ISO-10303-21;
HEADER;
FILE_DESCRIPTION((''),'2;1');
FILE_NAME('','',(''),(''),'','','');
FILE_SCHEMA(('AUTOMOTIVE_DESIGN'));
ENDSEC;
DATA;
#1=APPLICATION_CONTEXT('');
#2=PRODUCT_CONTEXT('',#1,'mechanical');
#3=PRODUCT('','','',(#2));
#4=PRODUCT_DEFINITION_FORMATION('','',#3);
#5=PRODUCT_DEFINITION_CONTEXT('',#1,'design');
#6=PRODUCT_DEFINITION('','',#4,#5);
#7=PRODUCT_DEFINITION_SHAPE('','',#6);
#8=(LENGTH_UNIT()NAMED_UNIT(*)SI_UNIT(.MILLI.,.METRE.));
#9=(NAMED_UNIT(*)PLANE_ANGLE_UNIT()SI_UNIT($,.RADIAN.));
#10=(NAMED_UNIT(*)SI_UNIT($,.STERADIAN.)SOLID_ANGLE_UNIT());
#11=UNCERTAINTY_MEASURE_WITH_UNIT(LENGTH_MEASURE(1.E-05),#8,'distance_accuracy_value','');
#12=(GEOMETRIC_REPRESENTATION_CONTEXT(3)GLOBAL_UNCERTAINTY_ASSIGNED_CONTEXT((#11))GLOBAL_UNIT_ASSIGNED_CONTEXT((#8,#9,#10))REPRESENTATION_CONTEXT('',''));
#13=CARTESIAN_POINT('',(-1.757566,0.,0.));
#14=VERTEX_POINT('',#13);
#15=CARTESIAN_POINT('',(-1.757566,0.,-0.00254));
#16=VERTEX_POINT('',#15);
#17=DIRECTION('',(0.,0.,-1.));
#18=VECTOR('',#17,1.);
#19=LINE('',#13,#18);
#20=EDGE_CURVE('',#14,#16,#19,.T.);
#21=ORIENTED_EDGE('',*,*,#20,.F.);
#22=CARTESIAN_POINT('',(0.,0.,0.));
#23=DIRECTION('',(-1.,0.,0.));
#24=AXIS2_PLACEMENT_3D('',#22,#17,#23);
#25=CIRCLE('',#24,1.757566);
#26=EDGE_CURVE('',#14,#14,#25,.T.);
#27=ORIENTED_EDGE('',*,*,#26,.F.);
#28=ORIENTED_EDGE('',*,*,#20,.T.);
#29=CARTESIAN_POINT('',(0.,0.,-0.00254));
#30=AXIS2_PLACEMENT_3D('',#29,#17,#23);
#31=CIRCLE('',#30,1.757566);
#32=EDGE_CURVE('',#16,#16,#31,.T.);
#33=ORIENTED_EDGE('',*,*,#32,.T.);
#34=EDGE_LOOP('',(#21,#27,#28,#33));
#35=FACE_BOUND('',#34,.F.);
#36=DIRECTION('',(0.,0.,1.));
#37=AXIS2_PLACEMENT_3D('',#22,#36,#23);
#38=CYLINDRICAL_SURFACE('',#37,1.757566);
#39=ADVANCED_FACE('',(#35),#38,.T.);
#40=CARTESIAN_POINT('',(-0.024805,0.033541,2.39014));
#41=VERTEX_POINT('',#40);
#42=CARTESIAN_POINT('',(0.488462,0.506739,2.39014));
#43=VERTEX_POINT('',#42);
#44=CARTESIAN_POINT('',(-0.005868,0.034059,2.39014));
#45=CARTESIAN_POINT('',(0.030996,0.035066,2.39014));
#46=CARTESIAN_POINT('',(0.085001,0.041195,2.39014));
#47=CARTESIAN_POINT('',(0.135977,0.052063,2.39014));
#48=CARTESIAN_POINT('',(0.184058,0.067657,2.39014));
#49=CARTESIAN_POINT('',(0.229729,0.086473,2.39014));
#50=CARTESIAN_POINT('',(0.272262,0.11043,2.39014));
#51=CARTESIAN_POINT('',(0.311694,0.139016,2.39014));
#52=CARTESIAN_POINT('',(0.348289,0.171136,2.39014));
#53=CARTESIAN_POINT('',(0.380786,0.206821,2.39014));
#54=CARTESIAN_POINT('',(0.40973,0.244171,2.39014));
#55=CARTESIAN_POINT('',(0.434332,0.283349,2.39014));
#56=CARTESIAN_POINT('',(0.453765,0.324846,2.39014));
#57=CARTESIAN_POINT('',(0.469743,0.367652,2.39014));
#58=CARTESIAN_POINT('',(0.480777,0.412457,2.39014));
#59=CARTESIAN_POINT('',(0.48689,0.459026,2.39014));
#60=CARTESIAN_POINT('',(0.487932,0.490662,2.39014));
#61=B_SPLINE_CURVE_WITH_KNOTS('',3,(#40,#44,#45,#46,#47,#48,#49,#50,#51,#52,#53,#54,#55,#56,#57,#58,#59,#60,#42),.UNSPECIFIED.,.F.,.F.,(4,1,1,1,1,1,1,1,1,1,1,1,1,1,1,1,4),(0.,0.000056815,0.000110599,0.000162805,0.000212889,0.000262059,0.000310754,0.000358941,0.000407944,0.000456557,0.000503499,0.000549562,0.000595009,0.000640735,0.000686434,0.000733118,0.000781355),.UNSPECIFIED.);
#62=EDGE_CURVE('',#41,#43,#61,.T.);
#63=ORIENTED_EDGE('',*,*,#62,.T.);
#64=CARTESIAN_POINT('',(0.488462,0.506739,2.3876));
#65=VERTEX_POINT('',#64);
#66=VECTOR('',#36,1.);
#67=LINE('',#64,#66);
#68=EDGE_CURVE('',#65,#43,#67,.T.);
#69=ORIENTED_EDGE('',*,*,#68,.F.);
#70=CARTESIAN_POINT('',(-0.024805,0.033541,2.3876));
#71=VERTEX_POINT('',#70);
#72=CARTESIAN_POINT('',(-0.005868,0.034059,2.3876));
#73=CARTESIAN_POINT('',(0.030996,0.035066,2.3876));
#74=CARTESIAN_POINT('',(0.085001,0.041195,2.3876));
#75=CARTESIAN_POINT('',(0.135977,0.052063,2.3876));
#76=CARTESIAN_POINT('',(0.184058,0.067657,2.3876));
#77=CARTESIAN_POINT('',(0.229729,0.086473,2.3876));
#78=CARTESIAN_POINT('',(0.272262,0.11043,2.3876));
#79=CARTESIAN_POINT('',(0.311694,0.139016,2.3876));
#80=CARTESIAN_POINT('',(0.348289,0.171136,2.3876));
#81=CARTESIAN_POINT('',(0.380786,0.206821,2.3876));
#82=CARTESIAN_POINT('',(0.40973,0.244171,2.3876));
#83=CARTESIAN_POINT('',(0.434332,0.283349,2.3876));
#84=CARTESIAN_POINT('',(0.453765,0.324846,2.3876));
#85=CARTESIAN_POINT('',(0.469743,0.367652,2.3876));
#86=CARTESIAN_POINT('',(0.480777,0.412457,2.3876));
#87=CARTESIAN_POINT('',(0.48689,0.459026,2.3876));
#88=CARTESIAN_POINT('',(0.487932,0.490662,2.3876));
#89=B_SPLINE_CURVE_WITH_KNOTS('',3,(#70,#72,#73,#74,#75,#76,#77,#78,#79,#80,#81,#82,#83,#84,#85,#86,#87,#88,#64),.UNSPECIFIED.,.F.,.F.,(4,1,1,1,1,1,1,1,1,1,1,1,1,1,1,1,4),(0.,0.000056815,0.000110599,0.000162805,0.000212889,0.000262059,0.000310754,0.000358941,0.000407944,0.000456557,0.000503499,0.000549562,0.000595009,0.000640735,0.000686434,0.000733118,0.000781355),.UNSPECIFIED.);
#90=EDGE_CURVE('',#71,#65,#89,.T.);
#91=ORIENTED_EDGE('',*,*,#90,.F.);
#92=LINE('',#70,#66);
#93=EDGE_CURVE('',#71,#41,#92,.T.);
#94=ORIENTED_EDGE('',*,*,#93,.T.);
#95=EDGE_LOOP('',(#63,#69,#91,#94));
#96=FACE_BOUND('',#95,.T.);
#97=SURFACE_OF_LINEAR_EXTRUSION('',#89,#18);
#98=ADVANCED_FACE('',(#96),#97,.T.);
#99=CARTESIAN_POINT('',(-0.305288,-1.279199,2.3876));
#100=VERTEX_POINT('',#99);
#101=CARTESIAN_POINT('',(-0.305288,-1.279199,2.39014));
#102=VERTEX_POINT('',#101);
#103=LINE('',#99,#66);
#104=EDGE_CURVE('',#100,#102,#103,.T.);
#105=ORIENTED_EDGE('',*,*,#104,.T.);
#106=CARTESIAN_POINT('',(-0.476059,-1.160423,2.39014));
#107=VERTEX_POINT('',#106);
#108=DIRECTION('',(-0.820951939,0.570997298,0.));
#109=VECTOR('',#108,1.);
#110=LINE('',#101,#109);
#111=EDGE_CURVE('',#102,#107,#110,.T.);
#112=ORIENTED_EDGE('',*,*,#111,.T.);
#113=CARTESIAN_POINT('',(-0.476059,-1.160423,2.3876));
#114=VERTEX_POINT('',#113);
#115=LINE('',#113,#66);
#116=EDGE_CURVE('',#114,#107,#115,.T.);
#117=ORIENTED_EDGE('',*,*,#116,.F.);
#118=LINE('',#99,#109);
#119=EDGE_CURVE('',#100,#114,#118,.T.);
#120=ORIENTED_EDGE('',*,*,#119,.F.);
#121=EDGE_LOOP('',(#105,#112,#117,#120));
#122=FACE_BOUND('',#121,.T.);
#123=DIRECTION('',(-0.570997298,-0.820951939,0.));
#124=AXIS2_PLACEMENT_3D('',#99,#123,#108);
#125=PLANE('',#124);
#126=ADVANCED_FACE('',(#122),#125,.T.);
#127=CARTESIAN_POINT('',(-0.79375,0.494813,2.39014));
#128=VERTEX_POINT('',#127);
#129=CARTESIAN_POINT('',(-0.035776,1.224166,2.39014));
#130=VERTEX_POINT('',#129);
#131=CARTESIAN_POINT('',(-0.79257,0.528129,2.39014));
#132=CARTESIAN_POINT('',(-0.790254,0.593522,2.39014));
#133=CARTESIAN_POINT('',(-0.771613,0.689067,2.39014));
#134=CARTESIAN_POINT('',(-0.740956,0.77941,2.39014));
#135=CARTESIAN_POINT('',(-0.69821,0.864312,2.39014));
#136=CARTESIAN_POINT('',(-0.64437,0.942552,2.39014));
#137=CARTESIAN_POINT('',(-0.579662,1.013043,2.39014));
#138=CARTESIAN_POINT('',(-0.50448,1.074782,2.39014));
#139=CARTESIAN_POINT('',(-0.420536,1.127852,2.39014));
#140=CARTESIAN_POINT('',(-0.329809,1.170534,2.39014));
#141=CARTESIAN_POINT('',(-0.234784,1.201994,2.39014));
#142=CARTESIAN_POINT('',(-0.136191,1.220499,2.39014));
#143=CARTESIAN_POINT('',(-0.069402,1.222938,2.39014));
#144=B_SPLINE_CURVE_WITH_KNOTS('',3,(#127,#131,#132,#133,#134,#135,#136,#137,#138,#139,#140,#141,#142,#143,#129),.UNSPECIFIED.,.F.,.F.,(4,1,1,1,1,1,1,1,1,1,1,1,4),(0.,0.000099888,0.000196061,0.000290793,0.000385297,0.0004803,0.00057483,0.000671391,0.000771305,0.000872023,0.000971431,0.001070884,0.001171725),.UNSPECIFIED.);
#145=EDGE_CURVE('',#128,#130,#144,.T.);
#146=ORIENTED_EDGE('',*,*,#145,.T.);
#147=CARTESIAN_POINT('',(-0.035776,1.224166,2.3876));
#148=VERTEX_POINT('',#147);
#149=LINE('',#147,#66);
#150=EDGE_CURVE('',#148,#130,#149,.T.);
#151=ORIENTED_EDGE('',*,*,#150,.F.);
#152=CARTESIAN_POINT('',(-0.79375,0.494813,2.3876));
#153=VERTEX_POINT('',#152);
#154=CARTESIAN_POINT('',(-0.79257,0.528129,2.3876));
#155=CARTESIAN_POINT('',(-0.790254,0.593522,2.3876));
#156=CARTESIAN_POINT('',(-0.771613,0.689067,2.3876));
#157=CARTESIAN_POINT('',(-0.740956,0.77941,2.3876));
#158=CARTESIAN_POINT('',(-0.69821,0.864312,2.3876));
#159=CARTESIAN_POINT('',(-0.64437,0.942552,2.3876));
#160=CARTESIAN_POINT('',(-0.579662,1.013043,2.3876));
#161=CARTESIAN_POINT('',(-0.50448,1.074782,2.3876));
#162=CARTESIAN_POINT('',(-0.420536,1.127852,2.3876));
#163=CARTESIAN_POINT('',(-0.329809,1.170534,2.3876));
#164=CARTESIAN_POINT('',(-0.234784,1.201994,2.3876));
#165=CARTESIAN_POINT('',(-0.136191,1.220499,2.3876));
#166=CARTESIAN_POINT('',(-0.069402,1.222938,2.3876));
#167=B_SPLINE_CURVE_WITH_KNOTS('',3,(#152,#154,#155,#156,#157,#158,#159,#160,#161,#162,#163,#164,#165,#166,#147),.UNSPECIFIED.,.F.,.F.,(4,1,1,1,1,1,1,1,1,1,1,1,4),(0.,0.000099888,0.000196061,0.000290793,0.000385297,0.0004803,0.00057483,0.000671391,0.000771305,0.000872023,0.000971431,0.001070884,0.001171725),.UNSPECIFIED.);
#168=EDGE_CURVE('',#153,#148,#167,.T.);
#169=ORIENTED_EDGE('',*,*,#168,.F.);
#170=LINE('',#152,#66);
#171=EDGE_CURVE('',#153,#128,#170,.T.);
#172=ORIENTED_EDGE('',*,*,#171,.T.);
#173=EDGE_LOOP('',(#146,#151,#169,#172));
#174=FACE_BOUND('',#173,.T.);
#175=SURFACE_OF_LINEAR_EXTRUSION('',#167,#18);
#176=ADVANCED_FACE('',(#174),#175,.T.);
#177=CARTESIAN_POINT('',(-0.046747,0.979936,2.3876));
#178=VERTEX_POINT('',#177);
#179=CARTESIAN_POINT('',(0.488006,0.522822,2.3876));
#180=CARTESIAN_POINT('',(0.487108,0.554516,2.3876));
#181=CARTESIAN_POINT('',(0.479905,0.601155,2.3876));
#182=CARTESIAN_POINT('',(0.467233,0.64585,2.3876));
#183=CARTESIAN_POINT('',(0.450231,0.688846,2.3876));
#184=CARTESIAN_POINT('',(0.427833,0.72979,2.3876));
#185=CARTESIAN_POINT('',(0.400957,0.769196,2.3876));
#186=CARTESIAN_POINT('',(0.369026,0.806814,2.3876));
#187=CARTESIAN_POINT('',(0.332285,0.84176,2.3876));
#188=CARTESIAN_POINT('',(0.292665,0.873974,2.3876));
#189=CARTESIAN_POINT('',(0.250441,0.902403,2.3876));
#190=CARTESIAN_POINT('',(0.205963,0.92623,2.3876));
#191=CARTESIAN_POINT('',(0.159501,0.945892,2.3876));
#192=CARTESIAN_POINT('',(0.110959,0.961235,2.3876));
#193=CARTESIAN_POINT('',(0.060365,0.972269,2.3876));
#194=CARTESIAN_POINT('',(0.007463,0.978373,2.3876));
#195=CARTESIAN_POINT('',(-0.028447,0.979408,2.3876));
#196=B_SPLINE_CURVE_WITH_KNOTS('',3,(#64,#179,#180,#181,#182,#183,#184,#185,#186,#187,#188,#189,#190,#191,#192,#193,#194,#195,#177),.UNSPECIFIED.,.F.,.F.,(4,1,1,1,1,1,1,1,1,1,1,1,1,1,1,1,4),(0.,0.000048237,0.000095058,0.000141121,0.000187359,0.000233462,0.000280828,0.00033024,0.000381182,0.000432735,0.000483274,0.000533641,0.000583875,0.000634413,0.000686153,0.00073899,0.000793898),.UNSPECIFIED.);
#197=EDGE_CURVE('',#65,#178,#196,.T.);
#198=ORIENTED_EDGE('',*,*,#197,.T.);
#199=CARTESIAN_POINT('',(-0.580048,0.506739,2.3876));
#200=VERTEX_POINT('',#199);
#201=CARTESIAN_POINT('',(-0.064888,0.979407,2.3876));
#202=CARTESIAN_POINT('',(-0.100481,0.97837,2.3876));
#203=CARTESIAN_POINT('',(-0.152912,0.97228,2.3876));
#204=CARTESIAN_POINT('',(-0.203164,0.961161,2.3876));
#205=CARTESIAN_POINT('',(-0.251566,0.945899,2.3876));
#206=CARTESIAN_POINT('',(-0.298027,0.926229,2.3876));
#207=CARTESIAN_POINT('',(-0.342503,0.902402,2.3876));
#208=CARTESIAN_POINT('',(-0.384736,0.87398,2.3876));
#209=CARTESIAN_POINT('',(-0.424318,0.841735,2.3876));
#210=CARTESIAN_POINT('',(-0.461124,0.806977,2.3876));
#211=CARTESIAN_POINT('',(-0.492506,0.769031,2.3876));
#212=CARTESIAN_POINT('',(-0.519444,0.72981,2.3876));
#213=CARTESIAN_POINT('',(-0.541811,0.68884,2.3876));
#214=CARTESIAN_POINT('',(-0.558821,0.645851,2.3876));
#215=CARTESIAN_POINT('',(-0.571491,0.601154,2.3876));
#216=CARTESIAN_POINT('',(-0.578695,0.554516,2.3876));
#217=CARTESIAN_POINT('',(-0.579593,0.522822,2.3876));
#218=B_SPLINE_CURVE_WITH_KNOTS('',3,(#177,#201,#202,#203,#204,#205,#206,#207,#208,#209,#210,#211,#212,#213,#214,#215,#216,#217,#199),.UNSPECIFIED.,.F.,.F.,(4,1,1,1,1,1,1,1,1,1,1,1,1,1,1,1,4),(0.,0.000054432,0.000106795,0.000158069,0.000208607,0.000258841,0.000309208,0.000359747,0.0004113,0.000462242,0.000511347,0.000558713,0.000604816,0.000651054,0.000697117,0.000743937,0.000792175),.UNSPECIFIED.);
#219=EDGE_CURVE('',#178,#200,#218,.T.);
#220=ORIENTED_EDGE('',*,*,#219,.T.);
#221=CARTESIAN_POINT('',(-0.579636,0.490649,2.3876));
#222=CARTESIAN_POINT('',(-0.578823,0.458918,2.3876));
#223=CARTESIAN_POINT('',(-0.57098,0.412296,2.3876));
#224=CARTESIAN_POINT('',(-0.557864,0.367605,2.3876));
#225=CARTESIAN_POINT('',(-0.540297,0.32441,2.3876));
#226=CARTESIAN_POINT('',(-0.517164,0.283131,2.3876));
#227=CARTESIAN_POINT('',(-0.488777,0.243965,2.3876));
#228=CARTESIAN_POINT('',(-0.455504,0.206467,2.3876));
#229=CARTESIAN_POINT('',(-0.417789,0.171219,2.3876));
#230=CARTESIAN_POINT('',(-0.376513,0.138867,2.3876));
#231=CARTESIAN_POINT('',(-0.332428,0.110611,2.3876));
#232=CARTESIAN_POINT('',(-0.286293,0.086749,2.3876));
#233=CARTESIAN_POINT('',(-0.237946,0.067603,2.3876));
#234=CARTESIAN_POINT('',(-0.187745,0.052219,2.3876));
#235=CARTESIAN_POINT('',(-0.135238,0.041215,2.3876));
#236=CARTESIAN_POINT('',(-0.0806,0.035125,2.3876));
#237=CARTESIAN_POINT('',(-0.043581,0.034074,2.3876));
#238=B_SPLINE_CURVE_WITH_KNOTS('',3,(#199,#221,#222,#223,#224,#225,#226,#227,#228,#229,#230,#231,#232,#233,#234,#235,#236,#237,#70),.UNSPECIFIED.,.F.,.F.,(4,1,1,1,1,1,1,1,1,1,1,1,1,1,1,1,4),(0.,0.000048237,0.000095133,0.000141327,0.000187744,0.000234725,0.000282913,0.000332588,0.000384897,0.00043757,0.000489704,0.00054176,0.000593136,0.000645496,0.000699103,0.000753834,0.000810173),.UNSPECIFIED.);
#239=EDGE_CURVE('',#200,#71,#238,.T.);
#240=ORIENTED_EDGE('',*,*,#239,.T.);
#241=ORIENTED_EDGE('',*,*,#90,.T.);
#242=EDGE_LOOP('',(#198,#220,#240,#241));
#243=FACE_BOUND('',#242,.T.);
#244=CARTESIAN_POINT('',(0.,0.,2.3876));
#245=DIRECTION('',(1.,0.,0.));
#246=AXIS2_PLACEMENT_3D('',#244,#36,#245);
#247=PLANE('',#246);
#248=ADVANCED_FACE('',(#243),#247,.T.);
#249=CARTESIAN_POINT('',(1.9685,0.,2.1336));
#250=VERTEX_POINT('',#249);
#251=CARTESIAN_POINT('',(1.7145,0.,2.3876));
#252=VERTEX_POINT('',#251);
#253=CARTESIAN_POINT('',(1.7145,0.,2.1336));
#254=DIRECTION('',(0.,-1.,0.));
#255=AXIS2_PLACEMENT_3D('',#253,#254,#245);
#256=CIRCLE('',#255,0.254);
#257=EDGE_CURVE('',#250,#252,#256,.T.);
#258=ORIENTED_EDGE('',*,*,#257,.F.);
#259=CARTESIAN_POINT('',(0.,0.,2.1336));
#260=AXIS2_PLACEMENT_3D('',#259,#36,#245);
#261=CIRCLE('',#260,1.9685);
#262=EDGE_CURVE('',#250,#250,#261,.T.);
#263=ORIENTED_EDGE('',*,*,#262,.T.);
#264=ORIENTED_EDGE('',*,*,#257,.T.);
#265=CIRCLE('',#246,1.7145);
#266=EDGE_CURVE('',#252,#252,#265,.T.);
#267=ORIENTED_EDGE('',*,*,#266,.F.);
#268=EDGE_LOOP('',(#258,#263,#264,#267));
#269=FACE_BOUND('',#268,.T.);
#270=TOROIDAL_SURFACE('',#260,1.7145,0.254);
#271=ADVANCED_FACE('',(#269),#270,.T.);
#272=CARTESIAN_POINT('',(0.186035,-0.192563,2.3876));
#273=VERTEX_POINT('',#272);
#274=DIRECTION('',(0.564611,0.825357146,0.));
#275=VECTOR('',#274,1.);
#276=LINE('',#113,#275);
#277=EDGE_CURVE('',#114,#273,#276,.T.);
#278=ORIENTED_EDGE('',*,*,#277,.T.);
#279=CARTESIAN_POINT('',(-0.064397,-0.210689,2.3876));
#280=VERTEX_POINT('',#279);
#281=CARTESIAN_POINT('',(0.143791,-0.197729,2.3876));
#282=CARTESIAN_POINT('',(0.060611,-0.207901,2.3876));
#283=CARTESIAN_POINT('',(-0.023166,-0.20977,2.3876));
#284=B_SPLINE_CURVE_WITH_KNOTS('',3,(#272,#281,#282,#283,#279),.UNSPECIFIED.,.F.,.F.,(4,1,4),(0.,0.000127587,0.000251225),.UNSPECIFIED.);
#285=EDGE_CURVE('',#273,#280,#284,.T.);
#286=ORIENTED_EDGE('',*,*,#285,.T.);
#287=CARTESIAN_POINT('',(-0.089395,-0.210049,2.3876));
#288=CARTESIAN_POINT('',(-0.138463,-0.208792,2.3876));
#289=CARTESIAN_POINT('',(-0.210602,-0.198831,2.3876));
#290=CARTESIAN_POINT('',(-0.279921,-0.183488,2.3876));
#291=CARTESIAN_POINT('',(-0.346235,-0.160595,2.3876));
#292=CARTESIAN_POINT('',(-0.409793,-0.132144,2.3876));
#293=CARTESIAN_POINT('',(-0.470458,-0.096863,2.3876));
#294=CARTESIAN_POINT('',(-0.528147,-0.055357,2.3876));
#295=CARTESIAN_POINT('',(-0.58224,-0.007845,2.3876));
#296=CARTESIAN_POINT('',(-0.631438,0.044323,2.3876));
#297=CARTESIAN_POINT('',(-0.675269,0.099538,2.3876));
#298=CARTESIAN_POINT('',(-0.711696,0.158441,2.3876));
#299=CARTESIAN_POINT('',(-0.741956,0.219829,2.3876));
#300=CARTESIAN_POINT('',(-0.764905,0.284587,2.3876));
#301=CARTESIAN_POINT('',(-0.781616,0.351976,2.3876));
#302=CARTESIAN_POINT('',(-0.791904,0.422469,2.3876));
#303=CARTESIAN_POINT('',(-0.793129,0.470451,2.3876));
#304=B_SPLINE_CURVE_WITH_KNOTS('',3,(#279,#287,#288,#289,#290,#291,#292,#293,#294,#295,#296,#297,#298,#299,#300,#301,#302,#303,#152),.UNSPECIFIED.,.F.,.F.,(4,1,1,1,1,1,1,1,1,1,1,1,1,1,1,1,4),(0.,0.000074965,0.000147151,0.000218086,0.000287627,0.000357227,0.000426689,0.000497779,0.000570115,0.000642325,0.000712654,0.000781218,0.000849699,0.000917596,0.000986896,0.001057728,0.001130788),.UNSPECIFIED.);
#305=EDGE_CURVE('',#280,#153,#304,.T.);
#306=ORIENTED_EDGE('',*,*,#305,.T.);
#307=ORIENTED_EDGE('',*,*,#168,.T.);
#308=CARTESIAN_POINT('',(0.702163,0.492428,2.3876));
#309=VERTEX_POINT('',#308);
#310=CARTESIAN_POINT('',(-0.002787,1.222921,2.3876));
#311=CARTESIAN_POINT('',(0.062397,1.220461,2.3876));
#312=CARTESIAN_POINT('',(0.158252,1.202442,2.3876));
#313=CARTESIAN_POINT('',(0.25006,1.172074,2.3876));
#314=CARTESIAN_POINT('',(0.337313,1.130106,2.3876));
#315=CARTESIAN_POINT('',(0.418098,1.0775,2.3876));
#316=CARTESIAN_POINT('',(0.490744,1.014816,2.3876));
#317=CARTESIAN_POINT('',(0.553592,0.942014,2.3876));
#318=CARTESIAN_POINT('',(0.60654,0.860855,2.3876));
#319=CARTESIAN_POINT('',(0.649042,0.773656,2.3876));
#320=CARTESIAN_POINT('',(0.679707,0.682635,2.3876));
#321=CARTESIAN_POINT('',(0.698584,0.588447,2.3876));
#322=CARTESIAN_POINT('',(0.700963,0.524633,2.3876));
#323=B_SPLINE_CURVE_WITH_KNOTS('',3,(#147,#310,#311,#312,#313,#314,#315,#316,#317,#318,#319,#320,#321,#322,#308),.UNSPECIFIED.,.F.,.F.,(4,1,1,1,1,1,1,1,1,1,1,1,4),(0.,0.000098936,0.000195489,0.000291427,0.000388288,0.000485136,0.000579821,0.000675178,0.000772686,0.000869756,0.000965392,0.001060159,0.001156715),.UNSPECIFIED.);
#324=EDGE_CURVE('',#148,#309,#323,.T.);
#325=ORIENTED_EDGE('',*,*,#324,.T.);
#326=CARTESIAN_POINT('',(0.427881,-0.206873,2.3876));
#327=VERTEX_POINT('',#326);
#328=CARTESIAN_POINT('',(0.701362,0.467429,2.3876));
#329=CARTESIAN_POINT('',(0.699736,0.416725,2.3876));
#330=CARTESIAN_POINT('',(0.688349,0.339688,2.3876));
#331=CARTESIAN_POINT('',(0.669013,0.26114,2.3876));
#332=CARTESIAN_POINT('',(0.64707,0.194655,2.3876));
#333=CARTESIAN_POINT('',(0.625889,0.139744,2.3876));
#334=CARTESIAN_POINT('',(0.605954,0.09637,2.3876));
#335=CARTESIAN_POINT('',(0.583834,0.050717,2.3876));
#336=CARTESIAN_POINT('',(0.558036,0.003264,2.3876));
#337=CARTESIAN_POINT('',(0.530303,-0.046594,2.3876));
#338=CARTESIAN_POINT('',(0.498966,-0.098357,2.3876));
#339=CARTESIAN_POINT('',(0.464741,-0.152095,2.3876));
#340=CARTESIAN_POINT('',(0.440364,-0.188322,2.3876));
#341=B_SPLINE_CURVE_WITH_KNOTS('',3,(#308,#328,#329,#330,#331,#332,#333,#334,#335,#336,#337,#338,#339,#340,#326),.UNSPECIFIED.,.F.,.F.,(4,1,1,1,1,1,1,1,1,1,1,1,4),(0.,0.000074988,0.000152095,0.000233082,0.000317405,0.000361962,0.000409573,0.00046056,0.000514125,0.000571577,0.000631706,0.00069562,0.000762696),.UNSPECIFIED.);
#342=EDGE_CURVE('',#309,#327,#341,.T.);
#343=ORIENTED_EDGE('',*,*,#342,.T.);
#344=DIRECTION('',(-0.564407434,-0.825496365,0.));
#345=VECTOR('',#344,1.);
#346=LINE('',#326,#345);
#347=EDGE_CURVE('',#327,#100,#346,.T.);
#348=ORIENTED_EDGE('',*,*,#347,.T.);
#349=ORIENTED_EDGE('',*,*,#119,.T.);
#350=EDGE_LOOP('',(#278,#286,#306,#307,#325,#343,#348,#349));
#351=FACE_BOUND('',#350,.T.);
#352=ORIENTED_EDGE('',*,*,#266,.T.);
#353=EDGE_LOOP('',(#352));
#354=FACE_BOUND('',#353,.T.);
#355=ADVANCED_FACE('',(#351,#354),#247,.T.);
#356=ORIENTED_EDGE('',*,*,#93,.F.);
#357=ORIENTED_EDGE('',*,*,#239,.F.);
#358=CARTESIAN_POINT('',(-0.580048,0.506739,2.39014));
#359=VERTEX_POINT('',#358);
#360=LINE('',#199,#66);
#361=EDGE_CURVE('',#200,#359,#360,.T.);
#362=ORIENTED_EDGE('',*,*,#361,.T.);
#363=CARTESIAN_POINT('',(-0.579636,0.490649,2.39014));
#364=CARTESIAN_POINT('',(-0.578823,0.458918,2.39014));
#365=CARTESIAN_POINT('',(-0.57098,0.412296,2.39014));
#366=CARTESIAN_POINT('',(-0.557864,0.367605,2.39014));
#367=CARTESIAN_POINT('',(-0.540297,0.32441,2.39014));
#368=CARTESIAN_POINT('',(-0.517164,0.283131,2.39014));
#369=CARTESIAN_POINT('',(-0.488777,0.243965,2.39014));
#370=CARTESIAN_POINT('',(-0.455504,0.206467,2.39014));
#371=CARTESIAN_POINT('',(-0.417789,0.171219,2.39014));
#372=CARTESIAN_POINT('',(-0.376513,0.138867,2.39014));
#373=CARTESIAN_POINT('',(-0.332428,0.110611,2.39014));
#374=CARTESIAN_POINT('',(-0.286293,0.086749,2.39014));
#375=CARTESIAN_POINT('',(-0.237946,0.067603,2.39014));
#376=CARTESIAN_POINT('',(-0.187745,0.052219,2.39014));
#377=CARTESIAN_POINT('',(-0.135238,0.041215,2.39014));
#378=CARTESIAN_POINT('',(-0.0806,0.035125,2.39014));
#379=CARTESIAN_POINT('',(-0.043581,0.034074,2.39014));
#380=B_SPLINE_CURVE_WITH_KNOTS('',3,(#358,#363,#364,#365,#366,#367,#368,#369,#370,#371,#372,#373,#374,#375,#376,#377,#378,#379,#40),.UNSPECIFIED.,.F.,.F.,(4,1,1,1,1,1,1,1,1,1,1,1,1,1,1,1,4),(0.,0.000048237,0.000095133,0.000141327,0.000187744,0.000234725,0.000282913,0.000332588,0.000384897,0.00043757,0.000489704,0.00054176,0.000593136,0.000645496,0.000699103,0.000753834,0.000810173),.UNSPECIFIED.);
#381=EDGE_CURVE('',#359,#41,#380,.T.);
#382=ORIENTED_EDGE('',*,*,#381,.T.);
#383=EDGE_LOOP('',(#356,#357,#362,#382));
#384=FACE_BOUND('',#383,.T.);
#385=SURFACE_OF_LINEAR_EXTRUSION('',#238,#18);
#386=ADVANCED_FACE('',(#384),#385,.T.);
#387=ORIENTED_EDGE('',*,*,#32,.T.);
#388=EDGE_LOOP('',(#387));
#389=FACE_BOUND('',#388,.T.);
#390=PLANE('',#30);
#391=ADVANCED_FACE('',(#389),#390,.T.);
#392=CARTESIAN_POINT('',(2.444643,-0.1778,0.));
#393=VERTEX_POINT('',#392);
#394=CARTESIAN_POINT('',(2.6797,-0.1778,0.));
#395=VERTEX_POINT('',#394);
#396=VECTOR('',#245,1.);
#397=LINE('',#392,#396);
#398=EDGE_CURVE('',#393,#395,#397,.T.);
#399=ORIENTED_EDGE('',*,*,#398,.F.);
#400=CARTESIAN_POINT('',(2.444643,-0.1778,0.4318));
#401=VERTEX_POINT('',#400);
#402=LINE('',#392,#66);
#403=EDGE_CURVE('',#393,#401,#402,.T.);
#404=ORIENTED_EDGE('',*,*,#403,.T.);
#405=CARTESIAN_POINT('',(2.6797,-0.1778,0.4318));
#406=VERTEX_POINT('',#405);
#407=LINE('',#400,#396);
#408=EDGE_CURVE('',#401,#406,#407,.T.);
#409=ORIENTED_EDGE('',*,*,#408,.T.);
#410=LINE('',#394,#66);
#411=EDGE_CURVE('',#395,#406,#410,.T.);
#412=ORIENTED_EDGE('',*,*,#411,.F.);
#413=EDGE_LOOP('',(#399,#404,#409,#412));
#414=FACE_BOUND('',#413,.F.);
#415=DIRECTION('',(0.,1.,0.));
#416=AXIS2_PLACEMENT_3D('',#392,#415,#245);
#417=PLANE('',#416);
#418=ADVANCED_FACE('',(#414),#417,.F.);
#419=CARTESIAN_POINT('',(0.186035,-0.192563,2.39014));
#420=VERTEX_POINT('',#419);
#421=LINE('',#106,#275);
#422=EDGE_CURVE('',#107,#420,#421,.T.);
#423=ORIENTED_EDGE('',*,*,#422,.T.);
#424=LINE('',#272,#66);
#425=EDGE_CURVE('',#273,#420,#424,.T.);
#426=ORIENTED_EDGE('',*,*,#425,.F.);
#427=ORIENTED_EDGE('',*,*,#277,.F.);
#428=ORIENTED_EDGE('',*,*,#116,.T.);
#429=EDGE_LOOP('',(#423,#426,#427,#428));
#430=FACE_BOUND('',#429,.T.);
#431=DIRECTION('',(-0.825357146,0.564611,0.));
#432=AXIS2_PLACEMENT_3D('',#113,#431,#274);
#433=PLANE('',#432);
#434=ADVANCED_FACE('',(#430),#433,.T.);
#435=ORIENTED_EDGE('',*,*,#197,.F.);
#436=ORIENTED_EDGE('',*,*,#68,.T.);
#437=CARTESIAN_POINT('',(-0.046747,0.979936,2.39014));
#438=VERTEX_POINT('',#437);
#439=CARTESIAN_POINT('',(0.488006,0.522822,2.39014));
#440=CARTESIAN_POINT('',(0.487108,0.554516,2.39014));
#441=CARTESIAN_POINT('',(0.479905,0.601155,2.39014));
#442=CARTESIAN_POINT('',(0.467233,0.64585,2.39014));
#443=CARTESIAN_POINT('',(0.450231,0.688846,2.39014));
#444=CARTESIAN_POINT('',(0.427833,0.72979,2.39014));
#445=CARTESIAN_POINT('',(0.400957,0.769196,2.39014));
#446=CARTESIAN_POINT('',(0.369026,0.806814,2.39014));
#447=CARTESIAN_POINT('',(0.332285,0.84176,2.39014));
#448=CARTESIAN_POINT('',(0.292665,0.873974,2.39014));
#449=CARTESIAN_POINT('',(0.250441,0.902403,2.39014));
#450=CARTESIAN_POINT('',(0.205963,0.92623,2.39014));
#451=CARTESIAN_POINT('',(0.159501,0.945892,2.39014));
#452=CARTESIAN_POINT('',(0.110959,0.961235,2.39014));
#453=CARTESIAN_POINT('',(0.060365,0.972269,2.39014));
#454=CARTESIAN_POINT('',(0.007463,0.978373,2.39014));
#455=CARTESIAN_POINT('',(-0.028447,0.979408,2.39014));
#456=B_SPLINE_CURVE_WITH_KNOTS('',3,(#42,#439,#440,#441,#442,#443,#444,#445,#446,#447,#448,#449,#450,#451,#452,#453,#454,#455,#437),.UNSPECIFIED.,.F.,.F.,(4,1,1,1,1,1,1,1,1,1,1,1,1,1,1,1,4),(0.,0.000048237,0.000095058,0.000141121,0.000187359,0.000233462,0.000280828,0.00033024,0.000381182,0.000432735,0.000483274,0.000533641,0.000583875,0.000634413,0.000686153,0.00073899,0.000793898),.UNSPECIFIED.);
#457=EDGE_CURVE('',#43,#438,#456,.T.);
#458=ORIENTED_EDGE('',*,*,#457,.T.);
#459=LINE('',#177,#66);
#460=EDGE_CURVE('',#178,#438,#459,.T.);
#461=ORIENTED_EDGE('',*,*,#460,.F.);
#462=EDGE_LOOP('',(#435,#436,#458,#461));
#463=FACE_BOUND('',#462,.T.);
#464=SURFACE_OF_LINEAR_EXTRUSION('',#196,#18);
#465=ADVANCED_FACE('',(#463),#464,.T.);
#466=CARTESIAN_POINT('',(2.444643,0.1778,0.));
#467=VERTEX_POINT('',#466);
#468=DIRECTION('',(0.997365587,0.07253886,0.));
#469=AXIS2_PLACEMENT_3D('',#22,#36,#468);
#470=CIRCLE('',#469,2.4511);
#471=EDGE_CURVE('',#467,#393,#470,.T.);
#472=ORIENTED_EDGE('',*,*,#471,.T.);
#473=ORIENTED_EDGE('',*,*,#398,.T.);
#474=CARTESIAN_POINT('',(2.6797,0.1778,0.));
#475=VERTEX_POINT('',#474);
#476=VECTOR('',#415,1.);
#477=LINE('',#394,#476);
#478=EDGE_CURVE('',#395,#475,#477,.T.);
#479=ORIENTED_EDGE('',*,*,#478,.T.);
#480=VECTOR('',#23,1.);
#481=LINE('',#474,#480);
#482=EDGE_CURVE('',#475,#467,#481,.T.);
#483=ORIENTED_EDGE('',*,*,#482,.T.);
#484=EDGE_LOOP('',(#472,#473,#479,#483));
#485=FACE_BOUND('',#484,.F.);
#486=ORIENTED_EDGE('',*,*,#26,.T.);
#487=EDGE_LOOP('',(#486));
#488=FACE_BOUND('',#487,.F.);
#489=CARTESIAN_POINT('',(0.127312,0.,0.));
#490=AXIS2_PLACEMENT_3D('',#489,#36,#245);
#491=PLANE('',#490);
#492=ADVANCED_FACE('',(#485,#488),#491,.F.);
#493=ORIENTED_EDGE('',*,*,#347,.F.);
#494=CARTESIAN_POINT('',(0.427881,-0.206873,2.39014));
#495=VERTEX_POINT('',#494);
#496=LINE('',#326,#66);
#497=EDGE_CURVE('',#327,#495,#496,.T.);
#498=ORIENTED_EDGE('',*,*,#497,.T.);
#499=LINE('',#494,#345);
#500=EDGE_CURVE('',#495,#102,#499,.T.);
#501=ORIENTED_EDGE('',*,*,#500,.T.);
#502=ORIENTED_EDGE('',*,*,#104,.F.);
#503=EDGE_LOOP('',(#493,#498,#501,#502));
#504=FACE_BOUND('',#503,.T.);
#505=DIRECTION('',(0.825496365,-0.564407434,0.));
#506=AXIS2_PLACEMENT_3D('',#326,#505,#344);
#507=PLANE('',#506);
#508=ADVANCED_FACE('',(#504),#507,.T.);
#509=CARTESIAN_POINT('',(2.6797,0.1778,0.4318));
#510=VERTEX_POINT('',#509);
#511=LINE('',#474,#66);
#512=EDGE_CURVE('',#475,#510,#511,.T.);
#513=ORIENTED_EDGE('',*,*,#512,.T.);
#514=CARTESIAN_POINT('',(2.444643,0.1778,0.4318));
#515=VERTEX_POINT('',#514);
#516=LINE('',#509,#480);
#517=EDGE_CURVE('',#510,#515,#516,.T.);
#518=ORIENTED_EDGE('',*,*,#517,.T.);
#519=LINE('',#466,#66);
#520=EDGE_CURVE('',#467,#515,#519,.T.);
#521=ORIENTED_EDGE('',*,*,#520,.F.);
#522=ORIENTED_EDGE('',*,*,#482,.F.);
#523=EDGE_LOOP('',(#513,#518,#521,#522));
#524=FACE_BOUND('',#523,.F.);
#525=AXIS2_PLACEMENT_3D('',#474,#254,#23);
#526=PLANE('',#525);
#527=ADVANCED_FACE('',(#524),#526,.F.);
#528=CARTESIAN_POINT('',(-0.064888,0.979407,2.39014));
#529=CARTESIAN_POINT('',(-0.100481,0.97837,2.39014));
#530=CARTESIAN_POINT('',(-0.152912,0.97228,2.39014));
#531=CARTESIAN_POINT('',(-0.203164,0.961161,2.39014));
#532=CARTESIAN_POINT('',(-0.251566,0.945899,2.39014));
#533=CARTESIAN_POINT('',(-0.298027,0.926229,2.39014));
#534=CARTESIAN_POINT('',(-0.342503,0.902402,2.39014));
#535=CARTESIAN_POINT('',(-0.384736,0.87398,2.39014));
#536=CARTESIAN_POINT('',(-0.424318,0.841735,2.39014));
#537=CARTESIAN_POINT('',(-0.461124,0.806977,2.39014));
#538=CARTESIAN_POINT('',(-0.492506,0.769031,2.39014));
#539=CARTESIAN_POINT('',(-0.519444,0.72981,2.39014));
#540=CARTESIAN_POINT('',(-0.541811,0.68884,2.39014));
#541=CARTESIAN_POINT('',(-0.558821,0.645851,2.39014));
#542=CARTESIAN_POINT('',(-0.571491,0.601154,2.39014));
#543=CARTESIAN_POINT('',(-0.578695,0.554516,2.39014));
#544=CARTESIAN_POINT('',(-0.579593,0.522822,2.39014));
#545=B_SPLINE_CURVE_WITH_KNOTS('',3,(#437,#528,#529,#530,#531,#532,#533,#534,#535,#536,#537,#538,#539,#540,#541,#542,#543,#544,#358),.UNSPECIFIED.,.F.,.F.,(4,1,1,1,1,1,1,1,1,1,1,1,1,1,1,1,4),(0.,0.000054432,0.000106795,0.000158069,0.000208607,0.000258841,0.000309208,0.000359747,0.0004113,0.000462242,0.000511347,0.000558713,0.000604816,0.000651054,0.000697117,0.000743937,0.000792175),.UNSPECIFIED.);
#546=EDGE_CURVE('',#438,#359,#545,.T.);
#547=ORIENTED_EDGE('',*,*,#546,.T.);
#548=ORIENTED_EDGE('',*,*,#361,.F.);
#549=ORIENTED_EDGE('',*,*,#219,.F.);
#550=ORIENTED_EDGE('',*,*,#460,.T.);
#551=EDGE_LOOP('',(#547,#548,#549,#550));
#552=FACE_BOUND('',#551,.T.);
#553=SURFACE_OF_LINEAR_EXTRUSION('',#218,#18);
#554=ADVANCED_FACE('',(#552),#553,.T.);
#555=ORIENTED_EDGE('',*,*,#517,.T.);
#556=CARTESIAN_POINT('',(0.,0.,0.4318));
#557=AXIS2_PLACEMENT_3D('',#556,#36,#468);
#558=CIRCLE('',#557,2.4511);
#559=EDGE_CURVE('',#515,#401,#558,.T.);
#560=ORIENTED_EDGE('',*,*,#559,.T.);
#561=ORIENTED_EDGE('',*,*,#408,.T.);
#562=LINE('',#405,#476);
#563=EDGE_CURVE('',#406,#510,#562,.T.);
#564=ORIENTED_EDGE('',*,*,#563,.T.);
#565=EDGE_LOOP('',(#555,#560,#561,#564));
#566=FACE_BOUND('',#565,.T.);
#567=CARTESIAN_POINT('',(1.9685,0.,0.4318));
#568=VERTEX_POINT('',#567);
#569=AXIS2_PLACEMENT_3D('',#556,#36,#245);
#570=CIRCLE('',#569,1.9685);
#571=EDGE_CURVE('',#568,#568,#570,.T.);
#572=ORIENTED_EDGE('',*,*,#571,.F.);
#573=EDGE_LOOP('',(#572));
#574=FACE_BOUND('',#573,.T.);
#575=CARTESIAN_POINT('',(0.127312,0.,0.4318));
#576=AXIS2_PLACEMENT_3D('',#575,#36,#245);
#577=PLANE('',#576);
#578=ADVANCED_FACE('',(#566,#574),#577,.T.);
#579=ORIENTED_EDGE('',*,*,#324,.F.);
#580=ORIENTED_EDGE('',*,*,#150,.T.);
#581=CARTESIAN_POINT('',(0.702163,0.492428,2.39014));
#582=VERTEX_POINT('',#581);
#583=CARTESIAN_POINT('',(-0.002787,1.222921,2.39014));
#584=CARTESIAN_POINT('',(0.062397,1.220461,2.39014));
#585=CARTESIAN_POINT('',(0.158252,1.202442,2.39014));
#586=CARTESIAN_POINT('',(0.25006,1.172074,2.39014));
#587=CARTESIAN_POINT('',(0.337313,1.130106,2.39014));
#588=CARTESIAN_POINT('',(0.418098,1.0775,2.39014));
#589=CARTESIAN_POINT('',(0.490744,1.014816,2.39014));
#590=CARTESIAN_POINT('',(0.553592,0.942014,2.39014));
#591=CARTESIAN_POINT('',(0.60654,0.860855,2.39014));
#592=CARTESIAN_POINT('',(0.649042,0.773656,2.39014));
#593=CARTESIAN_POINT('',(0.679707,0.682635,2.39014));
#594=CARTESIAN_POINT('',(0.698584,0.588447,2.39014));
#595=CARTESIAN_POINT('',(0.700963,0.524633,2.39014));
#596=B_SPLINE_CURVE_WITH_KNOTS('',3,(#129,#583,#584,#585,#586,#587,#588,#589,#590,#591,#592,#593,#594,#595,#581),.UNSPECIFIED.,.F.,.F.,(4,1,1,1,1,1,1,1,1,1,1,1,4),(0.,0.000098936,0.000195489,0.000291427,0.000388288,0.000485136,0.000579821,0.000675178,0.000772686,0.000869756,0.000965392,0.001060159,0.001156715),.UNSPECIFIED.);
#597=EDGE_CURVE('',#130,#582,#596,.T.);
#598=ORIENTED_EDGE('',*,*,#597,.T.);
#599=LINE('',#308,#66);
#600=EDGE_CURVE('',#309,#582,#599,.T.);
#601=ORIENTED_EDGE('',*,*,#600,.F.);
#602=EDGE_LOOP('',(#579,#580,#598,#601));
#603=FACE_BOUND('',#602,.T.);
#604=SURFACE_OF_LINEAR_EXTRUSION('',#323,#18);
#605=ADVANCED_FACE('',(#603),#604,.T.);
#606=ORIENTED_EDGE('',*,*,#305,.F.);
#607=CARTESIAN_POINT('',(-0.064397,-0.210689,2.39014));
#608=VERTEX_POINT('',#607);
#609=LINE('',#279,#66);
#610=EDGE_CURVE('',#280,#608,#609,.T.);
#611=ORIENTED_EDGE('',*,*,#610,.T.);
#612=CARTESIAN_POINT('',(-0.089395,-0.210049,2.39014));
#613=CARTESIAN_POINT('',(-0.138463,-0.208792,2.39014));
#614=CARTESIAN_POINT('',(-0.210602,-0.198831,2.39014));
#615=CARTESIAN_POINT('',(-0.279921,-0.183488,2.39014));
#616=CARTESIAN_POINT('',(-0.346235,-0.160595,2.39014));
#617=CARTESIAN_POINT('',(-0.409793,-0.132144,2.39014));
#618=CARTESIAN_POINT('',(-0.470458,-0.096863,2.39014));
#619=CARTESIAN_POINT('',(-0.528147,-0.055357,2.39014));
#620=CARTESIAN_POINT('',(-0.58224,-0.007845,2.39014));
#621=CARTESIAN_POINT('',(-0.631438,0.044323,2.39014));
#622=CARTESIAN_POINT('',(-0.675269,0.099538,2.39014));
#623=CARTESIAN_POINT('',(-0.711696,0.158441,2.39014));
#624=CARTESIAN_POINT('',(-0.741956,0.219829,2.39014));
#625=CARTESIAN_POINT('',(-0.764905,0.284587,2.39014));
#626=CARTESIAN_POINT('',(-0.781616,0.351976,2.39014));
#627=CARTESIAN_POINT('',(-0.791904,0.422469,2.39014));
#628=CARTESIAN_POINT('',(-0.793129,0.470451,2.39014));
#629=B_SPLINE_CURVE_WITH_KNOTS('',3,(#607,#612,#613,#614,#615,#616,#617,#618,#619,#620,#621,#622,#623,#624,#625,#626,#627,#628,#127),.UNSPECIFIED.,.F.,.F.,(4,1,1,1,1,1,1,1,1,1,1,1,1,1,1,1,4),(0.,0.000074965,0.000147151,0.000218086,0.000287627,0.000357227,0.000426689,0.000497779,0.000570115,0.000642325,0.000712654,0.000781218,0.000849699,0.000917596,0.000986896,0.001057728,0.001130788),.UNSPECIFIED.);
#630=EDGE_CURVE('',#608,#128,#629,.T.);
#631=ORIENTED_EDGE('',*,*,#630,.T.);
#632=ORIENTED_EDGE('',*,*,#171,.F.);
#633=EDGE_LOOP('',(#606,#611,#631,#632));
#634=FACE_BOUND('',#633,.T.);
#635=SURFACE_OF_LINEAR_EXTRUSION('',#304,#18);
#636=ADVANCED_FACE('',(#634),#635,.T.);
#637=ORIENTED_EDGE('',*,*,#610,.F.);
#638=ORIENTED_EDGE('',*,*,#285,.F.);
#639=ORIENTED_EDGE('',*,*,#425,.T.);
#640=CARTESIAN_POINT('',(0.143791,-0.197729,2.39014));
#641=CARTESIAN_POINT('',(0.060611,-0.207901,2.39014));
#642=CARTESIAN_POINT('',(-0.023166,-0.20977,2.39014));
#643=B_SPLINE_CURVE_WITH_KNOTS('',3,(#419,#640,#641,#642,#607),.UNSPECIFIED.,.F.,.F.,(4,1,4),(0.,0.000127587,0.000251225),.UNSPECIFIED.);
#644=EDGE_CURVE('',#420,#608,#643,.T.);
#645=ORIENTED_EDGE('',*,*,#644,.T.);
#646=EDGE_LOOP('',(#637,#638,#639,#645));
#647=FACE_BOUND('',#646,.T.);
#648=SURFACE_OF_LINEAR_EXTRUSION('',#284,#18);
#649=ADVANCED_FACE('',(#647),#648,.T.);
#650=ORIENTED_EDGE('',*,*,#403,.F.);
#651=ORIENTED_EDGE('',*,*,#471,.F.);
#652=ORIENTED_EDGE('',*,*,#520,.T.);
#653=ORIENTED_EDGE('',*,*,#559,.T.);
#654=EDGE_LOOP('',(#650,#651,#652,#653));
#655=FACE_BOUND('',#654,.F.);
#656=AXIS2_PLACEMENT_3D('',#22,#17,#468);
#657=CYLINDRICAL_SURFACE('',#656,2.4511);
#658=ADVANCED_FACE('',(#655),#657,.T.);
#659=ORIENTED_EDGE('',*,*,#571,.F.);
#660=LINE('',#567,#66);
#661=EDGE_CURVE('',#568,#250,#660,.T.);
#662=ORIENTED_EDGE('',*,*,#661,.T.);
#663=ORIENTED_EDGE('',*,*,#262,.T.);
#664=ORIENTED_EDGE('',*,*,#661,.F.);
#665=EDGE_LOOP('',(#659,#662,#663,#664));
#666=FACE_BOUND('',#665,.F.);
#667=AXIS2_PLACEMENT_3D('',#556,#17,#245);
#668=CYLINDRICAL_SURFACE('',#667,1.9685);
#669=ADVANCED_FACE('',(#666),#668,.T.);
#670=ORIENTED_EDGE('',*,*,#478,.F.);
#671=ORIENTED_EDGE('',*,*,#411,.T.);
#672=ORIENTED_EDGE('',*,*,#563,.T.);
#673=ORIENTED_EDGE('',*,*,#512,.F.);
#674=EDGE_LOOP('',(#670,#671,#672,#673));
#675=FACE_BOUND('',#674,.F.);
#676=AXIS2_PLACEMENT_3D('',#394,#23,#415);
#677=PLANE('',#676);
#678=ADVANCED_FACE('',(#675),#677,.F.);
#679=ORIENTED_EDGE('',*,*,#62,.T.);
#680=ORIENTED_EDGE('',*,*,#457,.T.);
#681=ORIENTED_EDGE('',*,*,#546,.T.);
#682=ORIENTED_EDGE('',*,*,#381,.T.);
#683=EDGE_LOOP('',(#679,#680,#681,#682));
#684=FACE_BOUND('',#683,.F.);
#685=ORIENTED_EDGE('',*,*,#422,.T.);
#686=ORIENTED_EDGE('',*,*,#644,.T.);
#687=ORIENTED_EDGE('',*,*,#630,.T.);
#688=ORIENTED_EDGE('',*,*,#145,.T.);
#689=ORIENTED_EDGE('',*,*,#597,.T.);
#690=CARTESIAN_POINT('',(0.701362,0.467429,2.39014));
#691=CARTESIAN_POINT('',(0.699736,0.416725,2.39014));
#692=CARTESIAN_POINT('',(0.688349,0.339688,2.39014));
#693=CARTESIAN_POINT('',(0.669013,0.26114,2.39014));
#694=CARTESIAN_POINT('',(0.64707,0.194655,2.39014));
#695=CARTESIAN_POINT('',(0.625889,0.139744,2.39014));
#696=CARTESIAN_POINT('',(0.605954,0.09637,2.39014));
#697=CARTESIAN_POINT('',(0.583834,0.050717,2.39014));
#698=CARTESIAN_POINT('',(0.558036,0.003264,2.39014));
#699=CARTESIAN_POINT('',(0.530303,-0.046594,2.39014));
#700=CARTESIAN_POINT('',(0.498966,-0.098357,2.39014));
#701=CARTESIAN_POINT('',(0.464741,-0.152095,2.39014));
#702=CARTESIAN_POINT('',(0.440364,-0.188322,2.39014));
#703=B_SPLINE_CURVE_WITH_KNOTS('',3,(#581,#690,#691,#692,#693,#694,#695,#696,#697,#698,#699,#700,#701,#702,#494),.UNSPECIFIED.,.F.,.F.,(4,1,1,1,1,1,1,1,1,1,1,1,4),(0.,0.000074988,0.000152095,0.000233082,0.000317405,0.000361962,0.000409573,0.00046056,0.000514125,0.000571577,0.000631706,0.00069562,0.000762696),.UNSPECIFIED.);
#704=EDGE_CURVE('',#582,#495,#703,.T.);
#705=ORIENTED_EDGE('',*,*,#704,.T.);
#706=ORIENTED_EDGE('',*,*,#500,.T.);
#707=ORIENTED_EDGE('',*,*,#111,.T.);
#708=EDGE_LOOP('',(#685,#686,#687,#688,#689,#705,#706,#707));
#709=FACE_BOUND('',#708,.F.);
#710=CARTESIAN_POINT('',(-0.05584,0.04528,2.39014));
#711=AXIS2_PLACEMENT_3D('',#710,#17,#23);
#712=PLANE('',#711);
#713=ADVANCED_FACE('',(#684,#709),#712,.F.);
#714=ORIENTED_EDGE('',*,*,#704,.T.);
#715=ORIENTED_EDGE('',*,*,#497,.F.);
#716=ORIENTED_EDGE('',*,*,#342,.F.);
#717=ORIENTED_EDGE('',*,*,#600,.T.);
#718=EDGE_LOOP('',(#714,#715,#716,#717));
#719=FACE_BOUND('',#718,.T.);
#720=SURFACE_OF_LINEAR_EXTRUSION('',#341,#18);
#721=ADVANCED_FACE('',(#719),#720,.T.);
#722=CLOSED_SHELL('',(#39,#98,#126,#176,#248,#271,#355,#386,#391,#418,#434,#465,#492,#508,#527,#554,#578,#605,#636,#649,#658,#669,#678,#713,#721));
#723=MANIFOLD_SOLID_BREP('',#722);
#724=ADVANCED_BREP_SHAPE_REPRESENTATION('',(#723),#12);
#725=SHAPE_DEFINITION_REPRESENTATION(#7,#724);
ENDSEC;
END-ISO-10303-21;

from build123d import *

# Parameters (mm, degrees)
BOSS_EXTRUDE1_DEPTH = 0.4318
SKETCH2_R           = 1.9685
BOSS_EXTRUDE2_DEPTH = 1.9558
SKETCH3_R           = 1.757566481
BOSS_EXTRUDE3_DEPTH = 0.00254
FILLET1_R           = 0.254
BOSS_EXTRUDE6_DEPTH = 0.00254


with BuildPart() as part:
    # Sketch1 → Boss-Extrude1 (new body)
    with BuildSketch(Plane.XY):
        with BuildLine():
            Line((2.6797, 0.1778), (2.4511, 0.1778))
            Line((2.4511, 0.1778), (2.44464279, 0.1778))
            ThreePointArc((2.44464279, 0.1778), (-2.4511, 0), (2.44464279, -0.1778))
            Line((2.44464279, -0.1778), (2.4511, -0.1778))
            Line((2.4511, -0.1778), (2.6797, -0.1778))
            Line((2.6797, -0.1778), (2.6797, 0.1778))
        make_face()
    extrude(amount=BOSS_EXTRUDE1_DEPTH)

    # Sketch2 → Boss-Extrude2 (add)
    with BuildSketch(Plane.XY.offset(0.4318)):
        Circle(SKETCH2_R)
    extrude(amount=BOSS_EXTRUDE2_DEPTH)

    # Sketch3 → Boss-Extrude3 (add)
    with BuildSketch(Plane(origin=(0, 0, 0), x_dir=(-1, 0, 0), z_dir=(0, 0, -1))):
        Circle(SKETCH3_R)
    extrude(amount=BOSS_EXTRUDE3_DEPTH)

    # Fillet1
    fillet1_edges = [part.edges().sort_by_distance(p)[0] for p in [
        (-1.9685, 0, 2.3876),
    ]]
    fillet(fillet1_edges, radius=FILLET1_R)

    # Sketch4 → Boss-Extrude6 (add)
    with BuildSketch(Plane.XY.offset(2.3876)):
        with BuildLine():
            Line((-0.305288462, -1.279198899), (-0.476059195, -1.160422607))
            Line((-0.476059195, -1.160422607), (0.186035156, -0.192562781))
            add(Edge.make_bspline(
                [(0.186035156, -0.192562781), (0.143791281, -0.197728776), (0.060610735, -0.207900908), (-0.023166472, -0.209769614), (-0.064396785, -0.210689284)],
                knots=[0, 0, 0, 0, 0.000127587, 0.000251225, 0.000251225, 0.000251225, 0.000251225], degree=3))
            add(Edge.make_bspline(
                [(-0.064396785, -0.210689284), (-0.0893945, -0.210049016), (-0.138462827, -0.208792225), (-0.21060222, -0.198830567), (-0.279920788, -0.183488426), (-0.346234761, -0.160595255), (-0.409793388, -0.132143938), (-0.470457918, -0.096862648), (-0.528146687, -0.055356582), (-0.582240121, -0.007845208), (-0.631437929, 0.044323253), (-0.67526878, 0.099538074), (-0.711695871, 0.158440655), (-0.741955834, 0.219829429), (-0.764904589, 0.284586741), (-0.781615887, 0.351975708), (-0.791904489, 0.422468628), (-0.793128516, 0.470450905), (-0.79375, 0.49481327)],
                knots=[0, 0, 0, 0, 7.4965e-05, 0.000147151, 0.000218086, 0.000287627, 0.000357227, 0.000426689, 0.000497779, 0.000570115, 0.000642325, 0.000712654, 0.000781218, 0.000849699, 0.000917596, 0.000986896, 0.001057728, 0.001130788, 0.001130788, 0.001130788, 0.001130788], degree=3))
            add(Edge.make_bspline(
                [(-0.79375, 0.49481327), (-0.792569965, 0.528129443), (-0.790253795, 0.593522331), (-0.771613018, 0.689067449), (-0.740955895, 0.779409723), (-0.69821016, 0.864311622), (-0.644370287, 0.942551836), (-0.579662478, 1.013042693), (-0.504480317, 1.074781603), (-0.420536479, 1.127852234), (-0.329808799, 1.170534438), (-0.23478423, 1.201993676), (-0.136190873, 1.220498538), (-0.069401797, 1.222938205), (-0.035775992, 1.224166485)],
                knots=[0, 0, 0, 0, 9.9888e-05, 0.000196061, 0.000290793, 0.000385297, 0.0004803, 0.00057483, 0.000671391, 0.000771305, 0.000872023, 0.000971431, 0.001070884, 0.001171725, 0.001171725, 0.001171725, 0.001171725], degree=3))
            add(Edge.make_bspline(
                [(-0.035775992, 1.224166485), (-0.002786549, 1.222921321), (0.06239748, 1.220460993), (0.158252322, 1.202442436), (0.250060407, 1.172073556), (0.3373128, 1.130106023), (0.418098007, 1.077500191), (0.490743693, 1.01481581), (0.553592051, 0.942013835), (0.606540084, 0.860855059), (0.649042022, 0.773655738), (0.679707272, 0.68263489), (0.698584215, 0.588447117), (0.700962966, 0.524633377), (0.702163462, 0.492428204)],
                knots=[0, 0, 0, 0, 9.8936e-05, 0.000195489, 0.000291427, 0.000388288, 0.000485136, 0.000579821, 0.000675178, 0.000772686, 0.000869756, 0.000965392, 0.001060159, 0.001156715, 0.001156715, 0.001156715, 0.001156715], degree=3))
            add(Edge.make_bspline(
                [(0.702163462, 0.492428204), (0.701361723, 0.46742932), (0.699735596, 0.416725336), (0.68834893, 0.339688263), (0.669013054, 0.261140195), (0.64707038, 0.194654609), (0.625889387, 0.139744039), (0.605954153, 0.096370196), (0.583834277, 0.050717372), (0.558035974, 0.003264273), (0.530303055, -0.046594024), (0.498966297, -0.098357443), (0.464740542, -0.152095447), (0.440363536, -0.188322484), (0.427880859, -0.206873178)],
                knots=[0, 0, 0, 0, 7.4988e-05, 0.000152095, 0.000233082, 0.000317405, 0.000361962, 0.000409573, 0.00046056, 0.000514125, 0.000571577, 0.000631706, 0.00069562, 0.000762696, 0.000762696, 0.000762696, 0.000762696], degree=3))
            Line((0.427880859, -0.206873178), (-0.305288462, -1.279198899))
        make_face()
        with BuildLine():
            add(Edge.make_bspline(
                [(-0.024804687, 0.033541485), (-0.005867617, 0.034058818), (0.030996421, 0.035065888), (0.085001333, 0.041195391), (0.13597655, 0.052063406), (0.18405824, 0.067656996), (0.229728507, 0.086473408), (0.272261937, 0.110430134), (0.311694128, 0.139016452), (0.348289128, 0.171136123), (0.380785706, 0.206821253), (0.409730161, 0.244170891), (0.434332262, 0.283348992), (0.453765491, 0.324846194), (0.46974339, 0.367652366), (0.48077743, 0.412456847), (0.486889985, 0.459026205), (0.487932003, 0.490661899), (0.488461538, 0.506738601)],
                knots=[0, 0, 0, 0, 5.6815e-05, 0.000110599, 0.000162805, 0.000212889, 0.000262059, 0.000310754, 0.000358941, 0.000407944, 0.000456557, 0.000503499, 0.000549562, 0.000595009, 0.000640735, 0.000686434, 0.000733118, 0.000781355, 0.000781355, 0.000781355, 0.000781355], degree=3))
            add(Edge.make_bspline(
                [(0.488461538, 0.506738601), (0.488005924, 0.522822016), (0.487108081, 0.554516358), (0.479904936, 0.601154663), (0.467233132, 0.645849543), (0.450230677, 0.688845685), (0.427833158, 0.729789831), (0.40095668, 0.769196029), (0.369025852, 0.806814423), (0.332284821, 0.841760277), (0.292664526, 0.873973758), (0.250441222, 0.902403213), (0.205962931, 0.926230134), (0.159501008, 0.945891755), (0.110958649, 0.961235017), (0.060364579, 0.972268616), (0.007463133, 0.978372614), (-0.028446992, 0.979408046), (-0.046747296, 0.979935716)],
                knots=[0, 0, 0, 0, 4.8237e-05, 9.5058e-05, 0.000141121, 0.000187359, 0.000233462, 0.000280828, 0.00033024, 0.000381182, 0.000432735, 0.000483274, 0.000533641, 0.000583875, 0.000634413, 0.000686153, 0.00073899, 0.000793898, 0.000793898, 0.000793898, 0.000793898], degree=3))
            add(Edge.make_bspline(
                [(-0.046747296, 0.979935716), (-0.064888443, 0.979407193), (-0.100481224, 0.978370235), (-0.152912376, 0.972280219), (-0.203164349, 0.961160813), (-0.251566058, 0.945898862), (-0.2980266, 0.926228668), (-0.342502794, 0.902401965), (-0.384735975, 0.873980302), (-0.424318283, 0.84173493), (-0.46112419, 0.806977085), (-0.492506024, 0.769031234), (-0.519444011, 0.729810329), (-0.541810754, 0.688840237), (-0.558821395, 0.645850996), (-0.571491007, 0.601154269), (-0.578694741, 0.554516461), (-0.579592504, 0.52282205), (-0.580048077, 0.506738601)],
                knots=[0, 0, 0, 0, 5.4432e-05, 0.000106795, 0.000158069, 0.000208607, 0.000258841, 0.000309208, 0.000359747, 0.0004113, 0.000462242, 0.000511347, 0.000558713, 0.000604816, 0.000651054, 0.000697117, 0.000743937, 0.000792175, 0.000792175, 0.000792175, 0.000792175], degree=3))
            add(Edge.make_bspline(
                [(-0.580048077, 0.506738601), (-0.579635831, 0.49064938), (-0.578822806, 0.458918491), (-0.570979792, 0.412296071), (-0.557863676, 0.367604639), (-0.54029727, 0.324409643), (-0.517164045, 0.283131111), (-0.488776927, 0.243964745), (-0.455503689, 0.206466555), (-0.41778912, 0.171219148), (-0.376513103, 0.138866686), (-0.332428174, 0.110611194), (-0.286293267, 0.086749406), (-0.237945979, 0.067603215), (-0.187744603, 0.052219208), (-0.135237951, 0.041215421), (-0.080599668, 0.035124682), (-0.043581448, 0.034074281), (-0.024804687, 0.033541485)],
                knots=[0, 0, 0, 0, 4.8237e-05, 9.5133e-05, 0.000141327, 0.000187744, 0.000234725, 0.000282913, 0.000332588, 0.000384897, 0.00043757, 0.000489704, 0.00054176, 0.000593136, 0.000645496, 0.000699103, 0.000753834, 0.000810173, 0.000810173, 0.000810173, 0.000810173], degree=3))
        make_face(mode=Mode.SUBTRACT)
    extrude(amount=BOSS_EXTRUDE6_DEPTH)


solid = part.part
